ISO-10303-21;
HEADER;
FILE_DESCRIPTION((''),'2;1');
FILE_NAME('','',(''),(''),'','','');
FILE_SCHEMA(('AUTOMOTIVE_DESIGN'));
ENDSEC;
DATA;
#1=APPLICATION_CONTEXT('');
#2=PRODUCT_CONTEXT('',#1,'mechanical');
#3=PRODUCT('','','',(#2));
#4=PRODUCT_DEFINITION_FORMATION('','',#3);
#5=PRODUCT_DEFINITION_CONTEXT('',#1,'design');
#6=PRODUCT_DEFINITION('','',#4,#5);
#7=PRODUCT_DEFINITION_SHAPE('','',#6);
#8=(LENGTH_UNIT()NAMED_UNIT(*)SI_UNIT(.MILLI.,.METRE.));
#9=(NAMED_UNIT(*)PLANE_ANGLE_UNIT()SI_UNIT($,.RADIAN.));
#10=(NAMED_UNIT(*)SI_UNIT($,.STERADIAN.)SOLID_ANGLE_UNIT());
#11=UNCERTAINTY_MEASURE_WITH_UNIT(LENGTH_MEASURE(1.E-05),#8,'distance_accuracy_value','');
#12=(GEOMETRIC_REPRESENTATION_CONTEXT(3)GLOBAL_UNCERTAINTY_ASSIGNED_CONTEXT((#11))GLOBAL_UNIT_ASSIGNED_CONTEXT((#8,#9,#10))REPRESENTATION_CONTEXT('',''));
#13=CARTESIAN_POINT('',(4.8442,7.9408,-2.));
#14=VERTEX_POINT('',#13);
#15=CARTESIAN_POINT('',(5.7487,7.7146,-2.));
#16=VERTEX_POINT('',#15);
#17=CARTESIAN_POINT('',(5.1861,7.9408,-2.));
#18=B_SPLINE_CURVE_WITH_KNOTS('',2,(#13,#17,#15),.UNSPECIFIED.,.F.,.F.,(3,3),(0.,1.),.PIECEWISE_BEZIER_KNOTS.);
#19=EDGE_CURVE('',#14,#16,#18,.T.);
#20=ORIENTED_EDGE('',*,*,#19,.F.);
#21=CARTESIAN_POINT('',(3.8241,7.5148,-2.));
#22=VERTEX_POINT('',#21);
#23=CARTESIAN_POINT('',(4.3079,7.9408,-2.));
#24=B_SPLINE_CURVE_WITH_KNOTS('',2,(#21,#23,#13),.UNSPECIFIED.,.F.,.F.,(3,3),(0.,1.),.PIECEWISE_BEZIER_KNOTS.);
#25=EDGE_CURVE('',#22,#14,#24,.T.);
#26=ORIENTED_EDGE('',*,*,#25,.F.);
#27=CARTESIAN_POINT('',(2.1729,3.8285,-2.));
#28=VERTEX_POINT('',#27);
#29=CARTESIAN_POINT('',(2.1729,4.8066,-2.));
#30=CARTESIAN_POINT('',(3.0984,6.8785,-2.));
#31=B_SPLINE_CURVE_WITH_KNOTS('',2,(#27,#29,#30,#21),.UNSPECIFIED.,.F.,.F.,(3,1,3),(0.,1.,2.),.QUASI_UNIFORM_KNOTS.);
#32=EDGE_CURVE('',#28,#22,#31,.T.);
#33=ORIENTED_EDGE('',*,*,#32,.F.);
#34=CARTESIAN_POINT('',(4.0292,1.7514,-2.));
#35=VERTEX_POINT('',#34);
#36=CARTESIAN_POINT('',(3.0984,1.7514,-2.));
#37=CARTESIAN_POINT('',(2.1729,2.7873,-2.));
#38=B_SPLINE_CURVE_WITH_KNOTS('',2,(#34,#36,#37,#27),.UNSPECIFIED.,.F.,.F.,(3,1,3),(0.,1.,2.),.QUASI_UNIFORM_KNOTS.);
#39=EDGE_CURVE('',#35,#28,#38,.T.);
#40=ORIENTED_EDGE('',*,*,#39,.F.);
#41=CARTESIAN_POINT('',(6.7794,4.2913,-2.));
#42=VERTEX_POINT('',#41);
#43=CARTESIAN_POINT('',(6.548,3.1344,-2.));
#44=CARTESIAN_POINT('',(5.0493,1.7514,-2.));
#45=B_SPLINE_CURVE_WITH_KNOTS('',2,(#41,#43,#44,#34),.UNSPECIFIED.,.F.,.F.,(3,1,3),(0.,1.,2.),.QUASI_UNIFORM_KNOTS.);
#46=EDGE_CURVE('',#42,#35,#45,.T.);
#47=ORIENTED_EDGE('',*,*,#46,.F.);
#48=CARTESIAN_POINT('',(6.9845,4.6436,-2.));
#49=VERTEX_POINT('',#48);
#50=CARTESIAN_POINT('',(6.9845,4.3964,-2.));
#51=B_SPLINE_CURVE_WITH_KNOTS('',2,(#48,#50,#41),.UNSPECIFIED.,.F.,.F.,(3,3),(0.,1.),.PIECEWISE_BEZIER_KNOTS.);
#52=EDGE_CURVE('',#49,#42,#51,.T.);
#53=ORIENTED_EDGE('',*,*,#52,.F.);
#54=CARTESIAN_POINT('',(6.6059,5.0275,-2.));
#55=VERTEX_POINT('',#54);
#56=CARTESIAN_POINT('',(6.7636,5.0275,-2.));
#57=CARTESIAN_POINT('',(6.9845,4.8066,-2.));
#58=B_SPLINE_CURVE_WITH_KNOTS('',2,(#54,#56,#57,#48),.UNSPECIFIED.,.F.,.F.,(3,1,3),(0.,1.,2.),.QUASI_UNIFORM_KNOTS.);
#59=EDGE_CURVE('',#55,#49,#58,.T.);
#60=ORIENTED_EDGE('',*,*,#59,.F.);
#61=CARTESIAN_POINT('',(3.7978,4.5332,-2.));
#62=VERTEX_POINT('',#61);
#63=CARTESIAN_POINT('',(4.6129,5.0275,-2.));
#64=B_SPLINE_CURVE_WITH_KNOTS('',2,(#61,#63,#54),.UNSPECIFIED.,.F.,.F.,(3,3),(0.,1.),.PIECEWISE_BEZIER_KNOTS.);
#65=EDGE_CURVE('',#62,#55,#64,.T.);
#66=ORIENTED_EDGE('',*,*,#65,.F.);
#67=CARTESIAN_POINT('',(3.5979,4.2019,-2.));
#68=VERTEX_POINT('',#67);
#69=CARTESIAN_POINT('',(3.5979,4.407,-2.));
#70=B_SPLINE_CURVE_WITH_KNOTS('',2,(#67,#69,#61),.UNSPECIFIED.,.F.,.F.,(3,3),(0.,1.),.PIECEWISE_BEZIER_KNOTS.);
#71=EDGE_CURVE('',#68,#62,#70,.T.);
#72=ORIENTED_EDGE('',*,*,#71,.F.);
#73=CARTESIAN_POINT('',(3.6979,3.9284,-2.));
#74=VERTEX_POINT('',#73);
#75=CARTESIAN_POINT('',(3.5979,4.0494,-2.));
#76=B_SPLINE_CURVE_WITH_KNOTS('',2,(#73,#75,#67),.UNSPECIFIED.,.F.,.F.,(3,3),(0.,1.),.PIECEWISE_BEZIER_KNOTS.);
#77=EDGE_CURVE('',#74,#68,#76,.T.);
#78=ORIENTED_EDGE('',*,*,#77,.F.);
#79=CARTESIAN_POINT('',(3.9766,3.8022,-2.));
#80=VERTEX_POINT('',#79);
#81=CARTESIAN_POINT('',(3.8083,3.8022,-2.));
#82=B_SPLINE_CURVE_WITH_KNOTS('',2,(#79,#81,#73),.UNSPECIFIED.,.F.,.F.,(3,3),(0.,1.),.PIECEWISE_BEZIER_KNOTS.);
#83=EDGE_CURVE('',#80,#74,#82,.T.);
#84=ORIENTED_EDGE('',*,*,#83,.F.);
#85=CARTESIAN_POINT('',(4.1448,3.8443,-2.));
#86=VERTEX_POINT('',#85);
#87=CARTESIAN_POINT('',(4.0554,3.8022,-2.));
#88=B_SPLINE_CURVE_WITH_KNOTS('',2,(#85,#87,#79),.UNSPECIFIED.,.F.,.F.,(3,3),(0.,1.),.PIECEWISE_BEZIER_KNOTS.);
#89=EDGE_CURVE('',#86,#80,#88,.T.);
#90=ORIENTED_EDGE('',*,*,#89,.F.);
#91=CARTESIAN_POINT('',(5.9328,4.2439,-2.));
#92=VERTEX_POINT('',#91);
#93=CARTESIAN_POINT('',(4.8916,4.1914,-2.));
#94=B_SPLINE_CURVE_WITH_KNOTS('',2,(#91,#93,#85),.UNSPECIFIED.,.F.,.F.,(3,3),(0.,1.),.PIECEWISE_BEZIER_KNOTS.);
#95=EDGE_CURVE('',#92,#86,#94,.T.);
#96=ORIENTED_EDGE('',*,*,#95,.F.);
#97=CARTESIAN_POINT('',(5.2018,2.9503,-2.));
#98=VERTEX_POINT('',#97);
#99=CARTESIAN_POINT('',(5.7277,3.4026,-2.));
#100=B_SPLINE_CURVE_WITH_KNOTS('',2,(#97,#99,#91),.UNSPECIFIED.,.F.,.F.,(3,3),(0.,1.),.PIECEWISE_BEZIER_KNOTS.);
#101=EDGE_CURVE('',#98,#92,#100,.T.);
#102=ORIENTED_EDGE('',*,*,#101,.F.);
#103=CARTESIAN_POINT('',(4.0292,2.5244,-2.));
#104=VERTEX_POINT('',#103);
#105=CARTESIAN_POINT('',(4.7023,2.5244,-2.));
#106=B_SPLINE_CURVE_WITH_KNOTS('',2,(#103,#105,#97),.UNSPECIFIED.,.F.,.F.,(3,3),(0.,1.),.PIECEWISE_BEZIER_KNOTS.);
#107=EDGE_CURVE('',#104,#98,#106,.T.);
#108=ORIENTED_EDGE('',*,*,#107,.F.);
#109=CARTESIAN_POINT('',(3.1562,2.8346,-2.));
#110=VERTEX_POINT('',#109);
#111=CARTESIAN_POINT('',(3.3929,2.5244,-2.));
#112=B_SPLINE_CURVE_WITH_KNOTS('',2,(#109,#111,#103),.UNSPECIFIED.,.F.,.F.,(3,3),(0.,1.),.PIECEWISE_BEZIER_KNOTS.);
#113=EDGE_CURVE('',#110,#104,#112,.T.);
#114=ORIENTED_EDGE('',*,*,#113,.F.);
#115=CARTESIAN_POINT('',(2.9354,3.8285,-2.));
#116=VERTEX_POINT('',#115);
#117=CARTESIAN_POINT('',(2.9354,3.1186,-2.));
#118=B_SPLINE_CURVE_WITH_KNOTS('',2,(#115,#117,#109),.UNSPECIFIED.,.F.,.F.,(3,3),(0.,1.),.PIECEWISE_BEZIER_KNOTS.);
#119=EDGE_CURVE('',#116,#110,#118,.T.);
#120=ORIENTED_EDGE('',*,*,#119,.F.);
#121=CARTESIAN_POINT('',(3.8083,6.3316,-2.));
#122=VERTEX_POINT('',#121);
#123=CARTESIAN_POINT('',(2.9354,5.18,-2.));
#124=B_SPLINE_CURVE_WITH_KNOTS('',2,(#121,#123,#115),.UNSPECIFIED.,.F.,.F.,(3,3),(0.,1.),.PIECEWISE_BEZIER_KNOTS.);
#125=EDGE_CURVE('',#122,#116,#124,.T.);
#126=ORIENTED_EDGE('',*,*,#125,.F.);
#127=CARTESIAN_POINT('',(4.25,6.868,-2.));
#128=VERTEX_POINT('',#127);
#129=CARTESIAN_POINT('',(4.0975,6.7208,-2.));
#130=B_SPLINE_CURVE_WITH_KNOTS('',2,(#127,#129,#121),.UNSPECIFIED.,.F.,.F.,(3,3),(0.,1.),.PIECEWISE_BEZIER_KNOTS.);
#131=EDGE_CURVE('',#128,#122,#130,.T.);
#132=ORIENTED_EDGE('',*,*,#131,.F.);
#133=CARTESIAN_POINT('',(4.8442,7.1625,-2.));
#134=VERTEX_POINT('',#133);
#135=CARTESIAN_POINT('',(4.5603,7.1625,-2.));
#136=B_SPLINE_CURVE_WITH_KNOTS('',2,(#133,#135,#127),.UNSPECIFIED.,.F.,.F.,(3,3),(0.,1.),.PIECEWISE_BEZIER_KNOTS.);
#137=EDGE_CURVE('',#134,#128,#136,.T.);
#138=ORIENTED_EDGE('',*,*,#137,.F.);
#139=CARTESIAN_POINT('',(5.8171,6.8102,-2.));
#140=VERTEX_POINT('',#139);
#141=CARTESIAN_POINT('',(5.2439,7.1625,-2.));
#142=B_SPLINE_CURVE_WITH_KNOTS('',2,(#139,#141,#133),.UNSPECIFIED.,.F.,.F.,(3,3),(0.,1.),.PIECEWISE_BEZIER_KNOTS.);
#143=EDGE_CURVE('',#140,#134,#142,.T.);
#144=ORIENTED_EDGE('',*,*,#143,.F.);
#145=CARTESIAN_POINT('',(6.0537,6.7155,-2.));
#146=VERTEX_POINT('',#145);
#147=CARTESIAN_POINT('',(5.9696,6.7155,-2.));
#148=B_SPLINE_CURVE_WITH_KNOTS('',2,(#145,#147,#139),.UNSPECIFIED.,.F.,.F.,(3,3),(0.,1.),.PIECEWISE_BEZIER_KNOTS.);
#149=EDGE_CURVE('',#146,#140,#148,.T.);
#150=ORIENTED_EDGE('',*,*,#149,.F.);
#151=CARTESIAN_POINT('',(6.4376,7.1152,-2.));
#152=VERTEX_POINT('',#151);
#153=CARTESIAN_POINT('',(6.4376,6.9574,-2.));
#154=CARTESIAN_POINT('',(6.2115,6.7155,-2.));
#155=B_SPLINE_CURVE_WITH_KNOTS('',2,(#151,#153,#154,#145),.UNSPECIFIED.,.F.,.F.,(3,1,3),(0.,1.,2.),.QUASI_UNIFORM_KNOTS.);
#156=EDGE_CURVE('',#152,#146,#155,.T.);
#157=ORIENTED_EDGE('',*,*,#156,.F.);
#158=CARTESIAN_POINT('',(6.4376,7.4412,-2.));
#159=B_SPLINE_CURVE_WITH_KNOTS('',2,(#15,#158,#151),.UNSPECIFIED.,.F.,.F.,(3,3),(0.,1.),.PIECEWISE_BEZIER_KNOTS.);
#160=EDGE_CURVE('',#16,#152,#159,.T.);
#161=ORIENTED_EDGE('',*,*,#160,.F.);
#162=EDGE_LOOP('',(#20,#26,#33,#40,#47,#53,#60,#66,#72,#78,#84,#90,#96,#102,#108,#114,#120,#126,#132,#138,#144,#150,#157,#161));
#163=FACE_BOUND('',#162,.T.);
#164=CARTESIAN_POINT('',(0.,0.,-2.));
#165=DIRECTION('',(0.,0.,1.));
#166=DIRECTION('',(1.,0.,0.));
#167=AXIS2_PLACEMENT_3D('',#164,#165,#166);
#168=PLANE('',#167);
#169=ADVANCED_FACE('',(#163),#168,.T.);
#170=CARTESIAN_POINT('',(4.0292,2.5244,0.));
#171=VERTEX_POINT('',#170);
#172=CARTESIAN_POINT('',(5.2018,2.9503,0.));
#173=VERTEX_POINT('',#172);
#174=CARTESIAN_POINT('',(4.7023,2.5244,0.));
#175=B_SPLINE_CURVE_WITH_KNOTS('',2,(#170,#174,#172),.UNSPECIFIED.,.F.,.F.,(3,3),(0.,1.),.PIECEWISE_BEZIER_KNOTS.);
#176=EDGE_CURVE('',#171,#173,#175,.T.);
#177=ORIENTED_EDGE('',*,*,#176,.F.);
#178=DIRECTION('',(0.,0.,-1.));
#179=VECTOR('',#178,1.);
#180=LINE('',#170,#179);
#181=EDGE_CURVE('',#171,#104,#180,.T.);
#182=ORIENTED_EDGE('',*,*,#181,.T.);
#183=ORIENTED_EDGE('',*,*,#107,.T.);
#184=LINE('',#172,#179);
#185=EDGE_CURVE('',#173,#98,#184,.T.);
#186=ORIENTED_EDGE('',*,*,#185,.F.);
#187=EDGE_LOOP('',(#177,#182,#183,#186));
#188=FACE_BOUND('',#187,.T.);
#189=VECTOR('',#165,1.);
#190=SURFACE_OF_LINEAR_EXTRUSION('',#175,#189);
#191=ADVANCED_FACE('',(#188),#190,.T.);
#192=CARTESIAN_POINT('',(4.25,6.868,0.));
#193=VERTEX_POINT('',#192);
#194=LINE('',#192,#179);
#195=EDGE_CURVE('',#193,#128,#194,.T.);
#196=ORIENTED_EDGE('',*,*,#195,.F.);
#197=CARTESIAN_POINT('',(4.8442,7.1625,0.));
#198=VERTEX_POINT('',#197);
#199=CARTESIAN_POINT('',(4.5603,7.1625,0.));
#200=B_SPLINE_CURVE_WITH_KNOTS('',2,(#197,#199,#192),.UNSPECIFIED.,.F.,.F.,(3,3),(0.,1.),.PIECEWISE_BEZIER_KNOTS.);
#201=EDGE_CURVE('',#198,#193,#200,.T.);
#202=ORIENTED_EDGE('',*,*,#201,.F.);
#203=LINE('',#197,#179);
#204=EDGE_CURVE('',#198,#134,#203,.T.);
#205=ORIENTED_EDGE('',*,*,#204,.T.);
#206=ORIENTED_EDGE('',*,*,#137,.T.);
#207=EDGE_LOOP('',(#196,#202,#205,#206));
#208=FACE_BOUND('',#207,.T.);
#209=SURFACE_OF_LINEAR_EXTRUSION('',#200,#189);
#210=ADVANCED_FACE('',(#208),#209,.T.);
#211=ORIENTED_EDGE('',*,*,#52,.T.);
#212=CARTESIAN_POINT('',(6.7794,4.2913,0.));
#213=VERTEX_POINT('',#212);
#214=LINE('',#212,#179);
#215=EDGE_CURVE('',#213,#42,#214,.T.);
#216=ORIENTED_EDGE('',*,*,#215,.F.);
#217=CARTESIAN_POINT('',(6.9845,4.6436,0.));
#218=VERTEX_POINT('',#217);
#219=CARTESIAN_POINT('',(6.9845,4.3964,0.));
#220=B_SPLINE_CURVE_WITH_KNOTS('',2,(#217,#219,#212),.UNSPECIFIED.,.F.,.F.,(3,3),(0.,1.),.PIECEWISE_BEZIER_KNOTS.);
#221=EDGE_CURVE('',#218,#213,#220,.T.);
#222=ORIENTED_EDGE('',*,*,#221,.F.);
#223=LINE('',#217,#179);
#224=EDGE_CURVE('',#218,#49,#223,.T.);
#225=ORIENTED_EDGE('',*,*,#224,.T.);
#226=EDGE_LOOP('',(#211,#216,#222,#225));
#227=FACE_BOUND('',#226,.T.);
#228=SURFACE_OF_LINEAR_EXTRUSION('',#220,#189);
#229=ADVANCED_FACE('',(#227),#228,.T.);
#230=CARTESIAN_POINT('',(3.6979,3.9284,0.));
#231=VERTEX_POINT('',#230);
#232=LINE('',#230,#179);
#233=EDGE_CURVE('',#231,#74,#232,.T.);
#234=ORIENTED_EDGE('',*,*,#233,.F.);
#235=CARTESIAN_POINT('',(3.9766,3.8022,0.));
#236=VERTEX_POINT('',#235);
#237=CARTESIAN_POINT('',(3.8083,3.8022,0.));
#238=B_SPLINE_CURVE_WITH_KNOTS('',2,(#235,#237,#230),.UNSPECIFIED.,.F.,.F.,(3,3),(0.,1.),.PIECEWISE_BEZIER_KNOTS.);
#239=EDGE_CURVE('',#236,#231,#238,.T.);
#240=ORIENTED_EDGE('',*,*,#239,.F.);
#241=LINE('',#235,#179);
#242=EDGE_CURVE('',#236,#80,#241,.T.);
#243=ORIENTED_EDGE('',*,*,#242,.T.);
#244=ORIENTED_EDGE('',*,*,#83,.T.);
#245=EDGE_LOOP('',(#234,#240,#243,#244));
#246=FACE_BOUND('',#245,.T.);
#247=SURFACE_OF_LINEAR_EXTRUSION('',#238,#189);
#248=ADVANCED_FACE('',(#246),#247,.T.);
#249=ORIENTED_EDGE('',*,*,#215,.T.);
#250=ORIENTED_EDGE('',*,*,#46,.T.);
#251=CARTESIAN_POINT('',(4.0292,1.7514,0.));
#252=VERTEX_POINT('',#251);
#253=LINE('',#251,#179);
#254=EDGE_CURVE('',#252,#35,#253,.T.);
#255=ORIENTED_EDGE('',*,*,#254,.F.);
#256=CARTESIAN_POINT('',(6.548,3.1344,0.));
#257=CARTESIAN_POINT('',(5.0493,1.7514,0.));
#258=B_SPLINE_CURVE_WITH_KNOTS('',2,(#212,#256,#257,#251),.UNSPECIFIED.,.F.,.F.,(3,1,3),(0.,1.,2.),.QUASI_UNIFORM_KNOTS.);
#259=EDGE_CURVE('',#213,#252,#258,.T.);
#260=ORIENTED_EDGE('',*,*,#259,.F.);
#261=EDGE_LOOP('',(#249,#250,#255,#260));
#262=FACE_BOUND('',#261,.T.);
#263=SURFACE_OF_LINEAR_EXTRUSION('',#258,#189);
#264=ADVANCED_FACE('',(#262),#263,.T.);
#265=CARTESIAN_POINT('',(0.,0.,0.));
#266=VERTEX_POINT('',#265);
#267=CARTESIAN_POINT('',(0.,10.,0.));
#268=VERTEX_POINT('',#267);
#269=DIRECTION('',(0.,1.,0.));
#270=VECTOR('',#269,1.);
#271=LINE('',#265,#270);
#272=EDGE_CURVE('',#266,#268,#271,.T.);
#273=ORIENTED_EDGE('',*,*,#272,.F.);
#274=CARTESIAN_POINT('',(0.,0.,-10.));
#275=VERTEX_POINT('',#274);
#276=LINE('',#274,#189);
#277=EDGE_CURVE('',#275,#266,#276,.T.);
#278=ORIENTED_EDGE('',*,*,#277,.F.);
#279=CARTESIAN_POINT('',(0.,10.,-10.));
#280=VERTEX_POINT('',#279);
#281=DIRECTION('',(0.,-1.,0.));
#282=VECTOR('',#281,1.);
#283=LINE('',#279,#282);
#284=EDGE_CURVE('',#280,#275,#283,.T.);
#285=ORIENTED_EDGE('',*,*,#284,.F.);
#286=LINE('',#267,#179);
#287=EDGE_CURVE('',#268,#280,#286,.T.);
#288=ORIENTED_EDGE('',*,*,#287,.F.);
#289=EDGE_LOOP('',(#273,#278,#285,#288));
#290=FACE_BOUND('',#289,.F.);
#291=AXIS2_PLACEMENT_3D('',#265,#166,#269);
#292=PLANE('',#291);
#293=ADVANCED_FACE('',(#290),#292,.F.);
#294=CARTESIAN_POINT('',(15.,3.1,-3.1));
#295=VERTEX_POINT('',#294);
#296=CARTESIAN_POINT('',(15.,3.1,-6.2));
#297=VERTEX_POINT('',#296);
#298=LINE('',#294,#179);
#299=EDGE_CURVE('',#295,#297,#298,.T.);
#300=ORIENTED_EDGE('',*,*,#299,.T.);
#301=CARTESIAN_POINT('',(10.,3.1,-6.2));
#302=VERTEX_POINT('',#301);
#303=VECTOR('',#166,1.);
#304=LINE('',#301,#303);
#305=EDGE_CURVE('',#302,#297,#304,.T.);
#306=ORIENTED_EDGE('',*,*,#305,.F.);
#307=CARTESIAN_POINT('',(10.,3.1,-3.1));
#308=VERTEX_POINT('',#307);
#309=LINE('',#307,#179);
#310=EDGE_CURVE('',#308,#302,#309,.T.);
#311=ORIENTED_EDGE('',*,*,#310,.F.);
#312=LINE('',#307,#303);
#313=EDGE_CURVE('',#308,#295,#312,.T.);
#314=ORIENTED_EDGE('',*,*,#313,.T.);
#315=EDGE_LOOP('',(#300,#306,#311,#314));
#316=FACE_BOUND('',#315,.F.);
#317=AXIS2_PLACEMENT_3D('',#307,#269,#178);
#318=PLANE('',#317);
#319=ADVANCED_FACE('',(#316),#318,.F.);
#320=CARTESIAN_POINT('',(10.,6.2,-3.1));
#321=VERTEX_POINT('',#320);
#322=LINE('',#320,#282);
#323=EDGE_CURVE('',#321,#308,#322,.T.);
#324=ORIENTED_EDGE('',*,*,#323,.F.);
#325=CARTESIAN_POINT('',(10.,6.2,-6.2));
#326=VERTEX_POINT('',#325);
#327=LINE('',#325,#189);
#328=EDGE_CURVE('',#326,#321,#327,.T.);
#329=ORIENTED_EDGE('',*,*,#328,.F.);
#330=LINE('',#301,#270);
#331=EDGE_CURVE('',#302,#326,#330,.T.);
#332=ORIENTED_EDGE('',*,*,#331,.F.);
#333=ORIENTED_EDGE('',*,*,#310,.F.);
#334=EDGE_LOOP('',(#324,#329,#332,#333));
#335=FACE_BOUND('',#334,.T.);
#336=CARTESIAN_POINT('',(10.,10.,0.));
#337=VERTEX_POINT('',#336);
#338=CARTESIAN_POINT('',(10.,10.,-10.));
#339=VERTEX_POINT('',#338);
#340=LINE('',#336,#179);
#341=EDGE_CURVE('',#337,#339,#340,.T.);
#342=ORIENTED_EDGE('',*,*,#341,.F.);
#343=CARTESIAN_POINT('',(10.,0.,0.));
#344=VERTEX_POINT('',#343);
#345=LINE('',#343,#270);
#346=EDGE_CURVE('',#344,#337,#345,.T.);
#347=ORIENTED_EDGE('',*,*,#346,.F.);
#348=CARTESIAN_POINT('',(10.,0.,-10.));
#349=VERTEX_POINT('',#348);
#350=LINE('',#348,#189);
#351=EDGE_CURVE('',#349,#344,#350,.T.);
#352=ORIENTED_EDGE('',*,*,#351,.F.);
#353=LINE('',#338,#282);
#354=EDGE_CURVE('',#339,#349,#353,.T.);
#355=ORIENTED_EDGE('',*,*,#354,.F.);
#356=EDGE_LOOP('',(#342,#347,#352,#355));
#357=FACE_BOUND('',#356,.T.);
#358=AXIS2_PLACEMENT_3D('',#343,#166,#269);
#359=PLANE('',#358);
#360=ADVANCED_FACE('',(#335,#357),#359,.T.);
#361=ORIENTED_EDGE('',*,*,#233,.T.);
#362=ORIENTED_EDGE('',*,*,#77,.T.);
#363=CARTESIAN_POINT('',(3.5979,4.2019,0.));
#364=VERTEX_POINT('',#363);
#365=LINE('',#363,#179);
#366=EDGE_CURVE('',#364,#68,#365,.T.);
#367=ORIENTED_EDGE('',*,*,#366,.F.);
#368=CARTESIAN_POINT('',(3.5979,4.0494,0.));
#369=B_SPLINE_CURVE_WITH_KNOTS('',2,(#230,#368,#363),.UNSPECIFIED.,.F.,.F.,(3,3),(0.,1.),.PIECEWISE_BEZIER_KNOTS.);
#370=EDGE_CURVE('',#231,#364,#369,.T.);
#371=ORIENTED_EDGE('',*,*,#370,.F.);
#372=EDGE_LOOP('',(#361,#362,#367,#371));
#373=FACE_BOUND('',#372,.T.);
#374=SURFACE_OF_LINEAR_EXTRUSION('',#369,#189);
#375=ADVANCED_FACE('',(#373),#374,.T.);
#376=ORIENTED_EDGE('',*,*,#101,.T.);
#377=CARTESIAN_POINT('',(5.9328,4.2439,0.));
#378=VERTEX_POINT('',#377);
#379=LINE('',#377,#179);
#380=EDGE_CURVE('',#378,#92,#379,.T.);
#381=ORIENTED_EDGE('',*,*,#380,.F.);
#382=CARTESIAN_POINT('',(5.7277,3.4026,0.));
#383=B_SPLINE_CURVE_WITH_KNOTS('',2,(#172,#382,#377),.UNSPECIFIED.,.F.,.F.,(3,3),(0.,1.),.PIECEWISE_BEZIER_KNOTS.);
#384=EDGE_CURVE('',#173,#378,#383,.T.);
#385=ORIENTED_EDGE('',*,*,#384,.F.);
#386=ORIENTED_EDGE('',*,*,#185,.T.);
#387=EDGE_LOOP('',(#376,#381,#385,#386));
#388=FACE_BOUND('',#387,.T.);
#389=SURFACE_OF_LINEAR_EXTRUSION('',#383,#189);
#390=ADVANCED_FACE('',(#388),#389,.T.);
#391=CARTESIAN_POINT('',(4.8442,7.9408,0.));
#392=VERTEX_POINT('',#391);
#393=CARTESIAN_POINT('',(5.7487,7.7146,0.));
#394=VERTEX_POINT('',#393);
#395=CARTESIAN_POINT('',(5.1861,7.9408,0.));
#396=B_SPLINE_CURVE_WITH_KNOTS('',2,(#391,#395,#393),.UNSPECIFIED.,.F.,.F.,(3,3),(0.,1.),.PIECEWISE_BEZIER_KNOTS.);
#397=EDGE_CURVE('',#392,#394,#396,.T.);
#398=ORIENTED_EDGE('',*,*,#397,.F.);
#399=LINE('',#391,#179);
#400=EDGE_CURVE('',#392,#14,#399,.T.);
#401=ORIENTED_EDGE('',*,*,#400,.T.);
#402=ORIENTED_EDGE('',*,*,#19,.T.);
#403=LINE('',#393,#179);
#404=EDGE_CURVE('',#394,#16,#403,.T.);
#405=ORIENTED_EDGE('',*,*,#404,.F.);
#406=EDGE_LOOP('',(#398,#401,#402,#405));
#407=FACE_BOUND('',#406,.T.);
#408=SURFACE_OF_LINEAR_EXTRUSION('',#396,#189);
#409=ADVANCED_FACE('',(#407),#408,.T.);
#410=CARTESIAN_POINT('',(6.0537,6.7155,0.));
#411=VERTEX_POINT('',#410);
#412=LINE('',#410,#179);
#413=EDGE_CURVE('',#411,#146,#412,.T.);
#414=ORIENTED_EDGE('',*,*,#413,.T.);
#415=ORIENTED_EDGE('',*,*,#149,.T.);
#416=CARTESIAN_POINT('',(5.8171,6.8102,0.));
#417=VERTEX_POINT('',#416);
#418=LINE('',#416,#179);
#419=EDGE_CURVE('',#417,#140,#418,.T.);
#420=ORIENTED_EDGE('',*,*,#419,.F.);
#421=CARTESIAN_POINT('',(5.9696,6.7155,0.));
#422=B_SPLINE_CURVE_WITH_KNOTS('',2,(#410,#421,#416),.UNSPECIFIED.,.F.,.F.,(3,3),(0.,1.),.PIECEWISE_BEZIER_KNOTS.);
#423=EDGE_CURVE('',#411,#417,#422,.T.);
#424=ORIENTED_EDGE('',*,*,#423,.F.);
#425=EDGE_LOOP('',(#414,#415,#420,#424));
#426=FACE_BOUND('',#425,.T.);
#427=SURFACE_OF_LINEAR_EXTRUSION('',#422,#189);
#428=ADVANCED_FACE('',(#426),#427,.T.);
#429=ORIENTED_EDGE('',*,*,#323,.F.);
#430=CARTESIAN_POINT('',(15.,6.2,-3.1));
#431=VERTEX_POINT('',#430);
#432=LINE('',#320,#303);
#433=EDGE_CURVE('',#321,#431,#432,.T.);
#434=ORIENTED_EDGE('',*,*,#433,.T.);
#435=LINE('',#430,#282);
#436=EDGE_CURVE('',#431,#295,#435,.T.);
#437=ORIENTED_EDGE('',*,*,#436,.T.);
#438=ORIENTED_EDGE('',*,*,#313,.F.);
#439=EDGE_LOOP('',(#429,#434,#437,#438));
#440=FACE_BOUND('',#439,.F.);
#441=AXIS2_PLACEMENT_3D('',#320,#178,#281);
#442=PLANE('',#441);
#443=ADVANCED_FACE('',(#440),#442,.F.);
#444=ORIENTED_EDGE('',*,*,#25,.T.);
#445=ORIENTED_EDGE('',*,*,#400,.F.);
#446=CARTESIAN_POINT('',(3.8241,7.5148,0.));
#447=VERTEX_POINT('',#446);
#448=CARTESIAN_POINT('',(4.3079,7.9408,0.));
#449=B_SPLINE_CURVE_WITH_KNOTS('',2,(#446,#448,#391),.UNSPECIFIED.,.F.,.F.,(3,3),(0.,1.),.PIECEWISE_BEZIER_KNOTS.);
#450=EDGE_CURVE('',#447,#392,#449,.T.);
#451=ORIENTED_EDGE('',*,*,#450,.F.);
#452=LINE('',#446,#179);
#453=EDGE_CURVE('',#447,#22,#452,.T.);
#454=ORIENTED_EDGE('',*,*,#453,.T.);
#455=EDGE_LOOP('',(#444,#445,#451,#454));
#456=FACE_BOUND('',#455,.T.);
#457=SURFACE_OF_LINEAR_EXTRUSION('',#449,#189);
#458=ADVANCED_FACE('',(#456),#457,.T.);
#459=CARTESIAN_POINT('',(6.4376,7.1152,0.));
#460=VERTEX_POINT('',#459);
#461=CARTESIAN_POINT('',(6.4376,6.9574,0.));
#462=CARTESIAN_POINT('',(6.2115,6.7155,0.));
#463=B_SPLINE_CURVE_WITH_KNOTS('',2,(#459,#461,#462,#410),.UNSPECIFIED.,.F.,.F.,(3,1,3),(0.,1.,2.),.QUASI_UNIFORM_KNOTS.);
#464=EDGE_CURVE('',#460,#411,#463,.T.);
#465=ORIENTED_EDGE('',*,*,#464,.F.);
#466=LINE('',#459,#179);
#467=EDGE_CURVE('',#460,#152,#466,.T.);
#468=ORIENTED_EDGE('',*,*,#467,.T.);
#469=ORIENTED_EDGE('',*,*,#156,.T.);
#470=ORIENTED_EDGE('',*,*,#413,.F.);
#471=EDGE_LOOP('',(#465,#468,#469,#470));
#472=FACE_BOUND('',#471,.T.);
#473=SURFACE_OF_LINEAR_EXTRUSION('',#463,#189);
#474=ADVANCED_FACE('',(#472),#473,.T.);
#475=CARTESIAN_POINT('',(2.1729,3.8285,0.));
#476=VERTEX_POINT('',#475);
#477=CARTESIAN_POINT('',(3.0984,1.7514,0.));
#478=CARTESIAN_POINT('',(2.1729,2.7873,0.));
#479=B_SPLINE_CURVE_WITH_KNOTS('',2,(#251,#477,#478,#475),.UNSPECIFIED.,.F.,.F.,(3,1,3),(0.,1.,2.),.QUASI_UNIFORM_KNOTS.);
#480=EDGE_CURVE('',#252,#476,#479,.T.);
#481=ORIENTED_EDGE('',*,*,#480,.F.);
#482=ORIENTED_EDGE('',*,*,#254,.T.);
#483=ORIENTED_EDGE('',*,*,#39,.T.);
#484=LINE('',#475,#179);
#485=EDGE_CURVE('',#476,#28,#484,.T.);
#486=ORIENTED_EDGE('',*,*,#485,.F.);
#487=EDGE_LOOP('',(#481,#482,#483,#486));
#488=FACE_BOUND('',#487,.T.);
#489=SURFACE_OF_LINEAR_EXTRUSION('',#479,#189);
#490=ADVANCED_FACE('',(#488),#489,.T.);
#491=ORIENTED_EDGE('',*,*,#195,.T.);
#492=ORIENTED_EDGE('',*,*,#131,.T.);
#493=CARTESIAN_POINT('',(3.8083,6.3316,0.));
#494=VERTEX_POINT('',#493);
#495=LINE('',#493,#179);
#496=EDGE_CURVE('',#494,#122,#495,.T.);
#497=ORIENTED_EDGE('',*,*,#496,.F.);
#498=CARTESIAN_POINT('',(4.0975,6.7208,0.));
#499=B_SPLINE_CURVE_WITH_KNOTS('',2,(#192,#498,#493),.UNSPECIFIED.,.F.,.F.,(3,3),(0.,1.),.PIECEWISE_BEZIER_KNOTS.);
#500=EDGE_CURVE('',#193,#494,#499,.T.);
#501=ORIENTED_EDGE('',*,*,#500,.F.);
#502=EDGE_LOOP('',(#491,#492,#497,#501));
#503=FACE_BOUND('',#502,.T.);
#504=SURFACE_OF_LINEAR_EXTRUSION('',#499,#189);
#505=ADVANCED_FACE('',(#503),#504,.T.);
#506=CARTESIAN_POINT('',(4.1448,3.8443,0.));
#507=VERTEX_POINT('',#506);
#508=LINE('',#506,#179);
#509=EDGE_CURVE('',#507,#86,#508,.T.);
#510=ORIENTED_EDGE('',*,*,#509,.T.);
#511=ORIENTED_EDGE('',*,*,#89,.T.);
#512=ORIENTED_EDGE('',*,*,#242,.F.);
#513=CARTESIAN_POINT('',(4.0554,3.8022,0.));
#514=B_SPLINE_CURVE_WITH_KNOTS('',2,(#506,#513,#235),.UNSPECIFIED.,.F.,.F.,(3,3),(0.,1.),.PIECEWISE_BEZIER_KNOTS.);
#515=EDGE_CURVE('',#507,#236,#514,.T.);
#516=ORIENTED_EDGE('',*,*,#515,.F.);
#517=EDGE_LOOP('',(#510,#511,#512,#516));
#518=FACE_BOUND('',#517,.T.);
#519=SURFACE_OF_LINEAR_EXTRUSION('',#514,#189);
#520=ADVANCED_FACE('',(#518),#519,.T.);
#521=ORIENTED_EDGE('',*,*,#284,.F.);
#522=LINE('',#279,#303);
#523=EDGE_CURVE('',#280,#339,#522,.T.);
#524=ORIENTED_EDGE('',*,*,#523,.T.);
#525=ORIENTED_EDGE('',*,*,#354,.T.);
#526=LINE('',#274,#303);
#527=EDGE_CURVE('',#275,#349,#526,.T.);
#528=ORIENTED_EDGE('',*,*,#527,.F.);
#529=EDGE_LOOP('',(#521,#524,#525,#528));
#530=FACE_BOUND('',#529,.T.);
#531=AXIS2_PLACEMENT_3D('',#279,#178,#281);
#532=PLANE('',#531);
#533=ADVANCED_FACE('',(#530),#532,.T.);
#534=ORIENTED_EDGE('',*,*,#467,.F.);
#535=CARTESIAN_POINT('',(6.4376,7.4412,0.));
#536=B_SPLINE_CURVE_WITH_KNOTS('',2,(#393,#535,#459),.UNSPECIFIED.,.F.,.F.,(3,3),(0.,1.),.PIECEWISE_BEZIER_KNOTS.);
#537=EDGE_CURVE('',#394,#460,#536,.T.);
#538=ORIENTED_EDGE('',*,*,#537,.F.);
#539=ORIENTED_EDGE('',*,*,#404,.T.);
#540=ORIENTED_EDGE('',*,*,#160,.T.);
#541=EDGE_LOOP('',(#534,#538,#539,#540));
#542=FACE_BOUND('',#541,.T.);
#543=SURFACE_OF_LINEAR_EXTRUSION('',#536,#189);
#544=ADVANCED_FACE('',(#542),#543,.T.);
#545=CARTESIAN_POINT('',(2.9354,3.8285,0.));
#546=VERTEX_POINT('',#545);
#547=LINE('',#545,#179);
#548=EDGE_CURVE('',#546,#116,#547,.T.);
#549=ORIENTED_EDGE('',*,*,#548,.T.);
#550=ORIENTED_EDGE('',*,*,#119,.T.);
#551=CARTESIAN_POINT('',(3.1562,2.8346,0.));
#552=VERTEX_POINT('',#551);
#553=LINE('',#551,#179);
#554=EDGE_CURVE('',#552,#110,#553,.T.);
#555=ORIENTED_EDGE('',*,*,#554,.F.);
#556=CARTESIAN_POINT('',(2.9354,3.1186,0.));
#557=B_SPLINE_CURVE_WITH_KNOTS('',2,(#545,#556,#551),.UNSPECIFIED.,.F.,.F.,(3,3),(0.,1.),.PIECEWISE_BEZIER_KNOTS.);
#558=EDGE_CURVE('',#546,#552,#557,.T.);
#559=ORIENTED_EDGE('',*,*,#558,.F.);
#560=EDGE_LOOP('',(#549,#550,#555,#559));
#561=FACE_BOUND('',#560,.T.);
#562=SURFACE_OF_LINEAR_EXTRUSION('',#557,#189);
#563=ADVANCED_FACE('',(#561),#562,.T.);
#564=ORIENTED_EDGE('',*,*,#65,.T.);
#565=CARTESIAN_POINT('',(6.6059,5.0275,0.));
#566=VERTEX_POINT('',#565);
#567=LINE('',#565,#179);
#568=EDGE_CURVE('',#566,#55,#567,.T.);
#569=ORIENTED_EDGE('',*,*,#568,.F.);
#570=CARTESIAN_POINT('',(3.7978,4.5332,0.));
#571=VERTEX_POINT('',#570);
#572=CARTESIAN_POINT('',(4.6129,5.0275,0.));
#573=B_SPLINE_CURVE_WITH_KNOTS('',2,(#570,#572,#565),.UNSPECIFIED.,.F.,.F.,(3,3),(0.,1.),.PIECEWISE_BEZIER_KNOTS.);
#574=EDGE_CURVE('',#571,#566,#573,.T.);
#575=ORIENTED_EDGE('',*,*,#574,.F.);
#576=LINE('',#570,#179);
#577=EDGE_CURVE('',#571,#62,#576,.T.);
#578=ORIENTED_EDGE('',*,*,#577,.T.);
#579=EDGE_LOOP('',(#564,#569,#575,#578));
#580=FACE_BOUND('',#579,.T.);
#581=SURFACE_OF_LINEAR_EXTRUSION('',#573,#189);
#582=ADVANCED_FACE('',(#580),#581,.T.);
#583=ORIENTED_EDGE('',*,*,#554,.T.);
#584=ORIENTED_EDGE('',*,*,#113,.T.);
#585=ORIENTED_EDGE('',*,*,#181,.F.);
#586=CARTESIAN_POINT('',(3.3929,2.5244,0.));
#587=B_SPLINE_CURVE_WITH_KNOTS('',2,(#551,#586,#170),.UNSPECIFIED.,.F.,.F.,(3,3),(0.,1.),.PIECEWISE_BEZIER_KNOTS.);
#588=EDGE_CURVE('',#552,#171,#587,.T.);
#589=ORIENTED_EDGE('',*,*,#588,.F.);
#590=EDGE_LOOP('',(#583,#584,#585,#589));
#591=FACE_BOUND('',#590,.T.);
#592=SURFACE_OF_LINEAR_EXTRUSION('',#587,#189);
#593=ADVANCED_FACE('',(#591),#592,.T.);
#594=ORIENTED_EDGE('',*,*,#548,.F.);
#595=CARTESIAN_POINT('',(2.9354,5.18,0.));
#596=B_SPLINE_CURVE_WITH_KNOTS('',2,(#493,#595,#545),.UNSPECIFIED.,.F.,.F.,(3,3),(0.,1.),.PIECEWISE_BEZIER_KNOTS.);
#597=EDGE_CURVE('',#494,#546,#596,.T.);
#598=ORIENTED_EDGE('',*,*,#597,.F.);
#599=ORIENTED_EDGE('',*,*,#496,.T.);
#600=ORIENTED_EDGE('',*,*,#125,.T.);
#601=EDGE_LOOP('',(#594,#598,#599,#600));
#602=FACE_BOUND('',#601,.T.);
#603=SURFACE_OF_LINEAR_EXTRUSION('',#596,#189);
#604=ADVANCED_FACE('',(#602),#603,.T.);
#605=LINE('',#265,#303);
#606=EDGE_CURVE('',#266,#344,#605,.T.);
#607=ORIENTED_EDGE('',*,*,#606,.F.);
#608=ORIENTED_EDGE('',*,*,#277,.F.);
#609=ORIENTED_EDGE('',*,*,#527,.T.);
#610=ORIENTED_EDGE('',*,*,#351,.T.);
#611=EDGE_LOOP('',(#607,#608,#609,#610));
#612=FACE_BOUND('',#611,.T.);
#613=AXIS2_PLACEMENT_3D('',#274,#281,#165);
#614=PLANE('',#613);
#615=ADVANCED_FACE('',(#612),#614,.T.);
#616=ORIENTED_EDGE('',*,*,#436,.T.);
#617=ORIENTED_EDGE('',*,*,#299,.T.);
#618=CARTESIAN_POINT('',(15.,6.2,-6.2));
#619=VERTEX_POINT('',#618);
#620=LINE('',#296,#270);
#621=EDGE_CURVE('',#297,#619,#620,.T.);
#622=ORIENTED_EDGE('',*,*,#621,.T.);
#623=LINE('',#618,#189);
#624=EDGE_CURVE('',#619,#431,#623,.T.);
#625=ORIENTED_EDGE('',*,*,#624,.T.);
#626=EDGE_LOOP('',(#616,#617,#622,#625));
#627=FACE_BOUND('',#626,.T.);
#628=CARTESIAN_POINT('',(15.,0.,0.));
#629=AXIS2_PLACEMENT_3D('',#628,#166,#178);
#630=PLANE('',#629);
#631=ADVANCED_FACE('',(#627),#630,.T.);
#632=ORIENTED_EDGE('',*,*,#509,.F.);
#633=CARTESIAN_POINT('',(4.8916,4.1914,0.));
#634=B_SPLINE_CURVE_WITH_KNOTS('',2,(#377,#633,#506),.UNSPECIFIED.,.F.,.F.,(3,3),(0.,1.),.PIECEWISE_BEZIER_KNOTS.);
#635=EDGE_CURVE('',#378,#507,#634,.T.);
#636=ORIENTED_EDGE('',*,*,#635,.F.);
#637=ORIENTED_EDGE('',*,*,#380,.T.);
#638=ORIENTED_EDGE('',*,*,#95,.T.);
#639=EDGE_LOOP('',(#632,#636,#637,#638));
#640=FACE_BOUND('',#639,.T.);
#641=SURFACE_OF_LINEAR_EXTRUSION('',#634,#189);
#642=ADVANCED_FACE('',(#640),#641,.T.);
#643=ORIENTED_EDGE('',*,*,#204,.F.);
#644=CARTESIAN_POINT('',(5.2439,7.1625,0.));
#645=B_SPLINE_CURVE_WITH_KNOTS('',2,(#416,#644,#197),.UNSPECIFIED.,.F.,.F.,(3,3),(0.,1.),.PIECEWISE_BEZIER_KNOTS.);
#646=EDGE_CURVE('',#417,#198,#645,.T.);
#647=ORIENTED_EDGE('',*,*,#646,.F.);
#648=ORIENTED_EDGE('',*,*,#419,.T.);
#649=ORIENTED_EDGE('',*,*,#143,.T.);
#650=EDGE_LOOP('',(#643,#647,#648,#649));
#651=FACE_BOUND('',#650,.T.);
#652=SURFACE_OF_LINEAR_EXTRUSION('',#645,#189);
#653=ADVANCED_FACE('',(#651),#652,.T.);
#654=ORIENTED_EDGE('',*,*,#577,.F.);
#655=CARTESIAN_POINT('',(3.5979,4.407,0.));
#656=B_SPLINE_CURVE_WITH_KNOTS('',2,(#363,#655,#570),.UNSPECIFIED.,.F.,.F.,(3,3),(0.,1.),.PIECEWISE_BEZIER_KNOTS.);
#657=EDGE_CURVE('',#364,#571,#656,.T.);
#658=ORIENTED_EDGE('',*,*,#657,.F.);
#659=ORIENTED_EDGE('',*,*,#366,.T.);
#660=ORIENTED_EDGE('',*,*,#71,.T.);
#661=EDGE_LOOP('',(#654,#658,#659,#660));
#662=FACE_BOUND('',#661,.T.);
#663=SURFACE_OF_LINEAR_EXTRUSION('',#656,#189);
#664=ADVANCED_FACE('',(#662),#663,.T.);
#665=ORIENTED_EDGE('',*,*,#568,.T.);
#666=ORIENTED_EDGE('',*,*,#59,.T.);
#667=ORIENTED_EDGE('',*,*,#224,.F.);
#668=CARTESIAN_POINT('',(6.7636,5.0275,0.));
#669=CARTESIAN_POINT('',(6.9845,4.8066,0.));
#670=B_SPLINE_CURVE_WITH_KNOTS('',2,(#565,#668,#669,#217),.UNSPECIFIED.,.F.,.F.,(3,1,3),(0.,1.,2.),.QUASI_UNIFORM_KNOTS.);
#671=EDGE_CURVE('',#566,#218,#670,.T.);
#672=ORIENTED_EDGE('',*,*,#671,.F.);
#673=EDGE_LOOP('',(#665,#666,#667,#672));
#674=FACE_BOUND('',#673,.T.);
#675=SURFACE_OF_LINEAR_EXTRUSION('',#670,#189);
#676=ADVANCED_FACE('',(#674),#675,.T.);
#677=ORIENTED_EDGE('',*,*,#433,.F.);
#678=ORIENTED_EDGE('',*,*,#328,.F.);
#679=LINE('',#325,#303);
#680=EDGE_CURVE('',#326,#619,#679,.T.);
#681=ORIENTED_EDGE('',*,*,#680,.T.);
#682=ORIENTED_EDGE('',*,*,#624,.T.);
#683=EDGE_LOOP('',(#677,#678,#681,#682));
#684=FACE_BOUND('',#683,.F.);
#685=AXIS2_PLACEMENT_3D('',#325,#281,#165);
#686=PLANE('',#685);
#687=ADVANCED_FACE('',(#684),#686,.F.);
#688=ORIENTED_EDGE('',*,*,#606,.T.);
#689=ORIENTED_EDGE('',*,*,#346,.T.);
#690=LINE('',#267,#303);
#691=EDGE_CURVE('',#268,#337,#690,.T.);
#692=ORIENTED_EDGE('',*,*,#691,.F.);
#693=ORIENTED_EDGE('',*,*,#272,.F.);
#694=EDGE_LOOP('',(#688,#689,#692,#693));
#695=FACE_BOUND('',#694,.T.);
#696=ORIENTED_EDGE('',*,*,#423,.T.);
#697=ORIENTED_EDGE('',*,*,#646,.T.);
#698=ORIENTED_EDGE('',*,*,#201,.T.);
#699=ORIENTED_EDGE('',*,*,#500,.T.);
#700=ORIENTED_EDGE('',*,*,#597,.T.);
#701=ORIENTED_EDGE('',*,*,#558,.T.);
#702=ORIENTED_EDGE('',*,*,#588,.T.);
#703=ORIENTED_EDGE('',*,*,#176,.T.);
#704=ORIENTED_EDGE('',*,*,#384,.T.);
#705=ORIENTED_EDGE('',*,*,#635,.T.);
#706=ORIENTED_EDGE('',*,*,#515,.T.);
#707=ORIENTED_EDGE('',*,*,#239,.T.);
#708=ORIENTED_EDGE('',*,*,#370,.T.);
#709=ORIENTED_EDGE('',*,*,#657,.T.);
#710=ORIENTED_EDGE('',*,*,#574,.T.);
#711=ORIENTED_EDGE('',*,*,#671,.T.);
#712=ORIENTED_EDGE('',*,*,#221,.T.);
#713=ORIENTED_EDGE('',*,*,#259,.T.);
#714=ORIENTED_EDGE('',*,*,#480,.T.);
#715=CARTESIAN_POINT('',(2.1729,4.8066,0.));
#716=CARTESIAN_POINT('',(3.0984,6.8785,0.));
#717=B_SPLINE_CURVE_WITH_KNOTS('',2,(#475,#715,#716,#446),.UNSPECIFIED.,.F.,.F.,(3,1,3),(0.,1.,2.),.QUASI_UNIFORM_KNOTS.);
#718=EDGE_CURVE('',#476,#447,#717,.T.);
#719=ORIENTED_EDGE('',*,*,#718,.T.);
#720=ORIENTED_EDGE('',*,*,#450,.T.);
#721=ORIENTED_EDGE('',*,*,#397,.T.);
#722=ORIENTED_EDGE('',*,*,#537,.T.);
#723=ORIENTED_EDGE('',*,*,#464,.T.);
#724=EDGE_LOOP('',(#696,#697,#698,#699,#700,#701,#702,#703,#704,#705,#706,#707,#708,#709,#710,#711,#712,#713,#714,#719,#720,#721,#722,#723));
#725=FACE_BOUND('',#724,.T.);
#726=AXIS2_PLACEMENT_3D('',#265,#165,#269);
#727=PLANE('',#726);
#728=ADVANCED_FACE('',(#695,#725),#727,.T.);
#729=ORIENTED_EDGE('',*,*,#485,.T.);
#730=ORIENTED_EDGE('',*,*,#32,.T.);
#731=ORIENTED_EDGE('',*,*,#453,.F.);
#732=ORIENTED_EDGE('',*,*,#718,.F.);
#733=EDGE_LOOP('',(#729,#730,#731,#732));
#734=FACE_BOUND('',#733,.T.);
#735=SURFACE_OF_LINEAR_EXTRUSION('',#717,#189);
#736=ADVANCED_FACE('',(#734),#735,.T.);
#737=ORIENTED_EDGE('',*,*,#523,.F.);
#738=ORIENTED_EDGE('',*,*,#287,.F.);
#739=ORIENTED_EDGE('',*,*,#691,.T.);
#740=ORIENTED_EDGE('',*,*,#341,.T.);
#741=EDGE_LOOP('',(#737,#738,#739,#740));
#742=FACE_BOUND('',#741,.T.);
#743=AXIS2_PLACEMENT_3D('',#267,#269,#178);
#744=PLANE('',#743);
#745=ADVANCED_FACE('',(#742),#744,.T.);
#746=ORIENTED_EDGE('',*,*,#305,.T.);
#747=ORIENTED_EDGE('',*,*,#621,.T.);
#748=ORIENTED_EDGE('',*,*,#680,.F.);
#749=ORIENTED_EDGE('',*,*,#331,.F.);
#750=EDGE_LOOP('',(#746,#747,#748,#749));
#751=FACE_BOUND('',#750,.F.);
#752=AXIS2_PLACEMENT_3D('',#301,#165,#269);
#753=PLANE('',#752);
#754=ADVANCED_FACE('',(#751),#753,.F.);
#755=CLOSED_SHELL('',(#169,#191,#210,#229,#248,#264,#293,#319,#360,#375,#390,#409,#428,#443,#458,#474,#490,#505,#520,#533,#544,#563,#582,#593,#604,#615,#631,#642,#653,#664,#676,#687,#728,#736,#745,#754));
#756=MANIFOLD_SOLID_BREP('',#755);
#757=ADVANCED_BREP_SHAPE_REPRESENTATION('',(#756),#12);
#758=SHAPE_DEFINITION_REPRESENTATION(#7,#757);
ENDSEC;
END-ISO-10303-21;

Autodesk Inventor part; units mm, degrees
ref_plane "YZ Plane" through (0, 0, 0) normal (1, 0, 0) x (0, 1, 0)
ref_plane "XZ Plane" through (0, 0, 0) normal (0, 1, 0) x (-1, 0, 0)
ref_plane "XY Plane" through (0, 0, 0) normal (0, 0, 1) x (1, 0, 0)
sketch "Sketch1" plane through (0, 0, 0) normal (1, 0, 0) x (0, 1, 0)
  line L0 (0, 0) -> (10, 0)
  line L1 (10, 0) -> (10, -10)
  line L2 (10, -10) -> (0, -10)
  line L3 (0, -10) -> (0, 0)
  dimension "d0" = 10
  dimension "d1" = 10
extrude "Extrusion1" add sketch "Sketch1" along normal blind 10
sketch "Sketch4" plane through (0, 0, 0) normal (0, 0, 1) x (1, 0, 0)
  line L0 (1.8731, 7.9408) -> (4.4271, 7.9408) construction
  line L1 (4.4271, 7.9408) -> (4.4271, 4.8928) construction
  line L2 (4.4271, 4.8928) -> (1.8731, 4.8928) construction
  line L3 (1.8731, 4.8928) -> (1.8731, 7.9408) construction
  spline S0 degree 2 poles (6.7794, 4.2913) (6.548, 3.1344) (5.0493, 1.7514) (4.0292, 1.7514) knots 0 0 0 1 2 2 2
  spline S1 degree 2 poles (4.0292, 1.7514) (3.0984, 1.7514) (2.1729, 2.7873) (2.1729, 3.8285) knots 0 0 0 1 2 2 2
  spline S2 degree 2 poles (2.1729, 3.8285) (2.1729, 4.8066) (3.0984, 6.8785) (3.8241, 7.5148) knots 0 0 0 1 2 2 2
  spline S3 degree 2 poles (3.8241, 7.5148) (4.3079, 7.9408) (4.8442, 7.9408) knots 0 0 0 1 1 1
  spline S4 degree 2 poles (4.8442, 7.9408) (5.1861, 7.9408) (5.7487, 7.7146) knots 0 0 0 1 1 1
  spline S5 degree 2 poles (5.7487, 7.7146) (6.4376, 7.4412) (6.4376, 7.1152) knots 0 0 0 1 1 1
  spline S6 degree 2 poles (6.4376, 7.1152) (6.4376, 6.9574) (6.2115, 6.7155) (6.0537, 6.7155) knots 0 0 0 1 2 2 2
  spline S7 degree 2 poles (6.0537, 6.7155) (5.9696, 6.7155) (5.8171, 6.8102) knots 0 0 0 1 1 1
  spline S8 degree 2 poles (5.8171, 6.8102) (5.2439, 7.1625) (4.8442, 7.1625) knots 0 0 0 1 1 1
  spline S9 degree 2 poles (4.8442, 7.1625) (4.5603, 7.1625) (4.25, 6.868) knots 0 0 0 1 1 1
  spline S10 degree 2 poles (4.25, 6.868) (4.0975, 6.7208) (3.8083, 6.3316) knots 0 0 0 1 1 1
  spline S11 degree 2 poles (3.8083, 6.3316) (2.9354, 5.18) (2.9354, 3.8285) knots 0 0 0 1 1 1
  spline S12 degree 2 poles (2.9354, 3.8285) (2.9354, 3.1186) (3.1562, 2.8346) knots 0 0 0 1 1 1
  spline S13 degree 2 poles (3.1562, 2.8346) (3.3929, 2.5244) (4.0292, 2.5244) knots 0 0 0 1 1 1
  spline S14 degree 2 poles (4.0292, 2.5244) (4.7023, 2.5244) (5.2018, 2.9503) knots 0 0 0 1 1 1
  spline S15 degree 2 poles (5.2018, 2.9503) (5.7277, 3.4026) (5.9328, 4.2439) knots 0 0 0 1 1 1
  spline S16 degree 2 poles (5.9328, 4.2439) (4.8916, 4.1914) (4.1448, 3.8443) knots 0 0 0 1 1 1
  spline S17 degree 2 poles (4.1448, 3.8443) (4.0554, 3.8022) (3.9766, 3.8022) knots 0 0 0 1 1 1
  spline S18 degree 2 poles (3.9766, 3.8022) (3.8083, 3.8022) (3.6979, 3.9284) knots 0 0 0 1 1 1
  spline S19 degree 2 poles (3.6979, 3.9284) (3.5979, 4.0494) (3.5979, 4.2019) knots 0 0 0 1 1 1
  spline S20 degree 2 poles (3.5979, 4.2019) (3.5979, 4.407) (3.7978, 4.5332) knots 0 0 0 1 1 1
  spline S21 degree 2 poles (3.7978, 4.5332) (4.6129, 5.0275) (6.6059, 5.0275) knots 0 0 0 1 1 1
  spline S22 degree 2 poles (6.6059, 5.0275) (6.7636, 5.0275) (6.9845, 4.8066) (6.9845, 4.6436) knots 0 0 0 1 2 2 2
  spline S23 degree 2 poles (6.9845, 4.6436) (6.9845, 4.3964) (6.7794, 4.2913) knots 0 0 0 1 1 1
  point P0 (0, 0)
extrude "Extrusion4" cut sketch "Sketch4" against normal blind 2
sketch "Sketch5" plane through (10, 0, 0) normal (1, 0, 0) x (0, 0, -1)
  line L0 (3.1, 3.1) -> (6.2, 3.1)
  line L1 (6.2, 3.1) -> (6.2, 6.2)
  line L2 (6.2, 6.2) -> (3.1, 6.2)
  line L3 (3.1, 6.2) -> (3.1, 3.1)
  point P0 (0, 0)
  dimension "d11" = 3.1
  dimension "d12" = 3.1
extrude "Extrusion5" add sketch "Sketch5" along normal blind 5
properties part number "Guanine"
